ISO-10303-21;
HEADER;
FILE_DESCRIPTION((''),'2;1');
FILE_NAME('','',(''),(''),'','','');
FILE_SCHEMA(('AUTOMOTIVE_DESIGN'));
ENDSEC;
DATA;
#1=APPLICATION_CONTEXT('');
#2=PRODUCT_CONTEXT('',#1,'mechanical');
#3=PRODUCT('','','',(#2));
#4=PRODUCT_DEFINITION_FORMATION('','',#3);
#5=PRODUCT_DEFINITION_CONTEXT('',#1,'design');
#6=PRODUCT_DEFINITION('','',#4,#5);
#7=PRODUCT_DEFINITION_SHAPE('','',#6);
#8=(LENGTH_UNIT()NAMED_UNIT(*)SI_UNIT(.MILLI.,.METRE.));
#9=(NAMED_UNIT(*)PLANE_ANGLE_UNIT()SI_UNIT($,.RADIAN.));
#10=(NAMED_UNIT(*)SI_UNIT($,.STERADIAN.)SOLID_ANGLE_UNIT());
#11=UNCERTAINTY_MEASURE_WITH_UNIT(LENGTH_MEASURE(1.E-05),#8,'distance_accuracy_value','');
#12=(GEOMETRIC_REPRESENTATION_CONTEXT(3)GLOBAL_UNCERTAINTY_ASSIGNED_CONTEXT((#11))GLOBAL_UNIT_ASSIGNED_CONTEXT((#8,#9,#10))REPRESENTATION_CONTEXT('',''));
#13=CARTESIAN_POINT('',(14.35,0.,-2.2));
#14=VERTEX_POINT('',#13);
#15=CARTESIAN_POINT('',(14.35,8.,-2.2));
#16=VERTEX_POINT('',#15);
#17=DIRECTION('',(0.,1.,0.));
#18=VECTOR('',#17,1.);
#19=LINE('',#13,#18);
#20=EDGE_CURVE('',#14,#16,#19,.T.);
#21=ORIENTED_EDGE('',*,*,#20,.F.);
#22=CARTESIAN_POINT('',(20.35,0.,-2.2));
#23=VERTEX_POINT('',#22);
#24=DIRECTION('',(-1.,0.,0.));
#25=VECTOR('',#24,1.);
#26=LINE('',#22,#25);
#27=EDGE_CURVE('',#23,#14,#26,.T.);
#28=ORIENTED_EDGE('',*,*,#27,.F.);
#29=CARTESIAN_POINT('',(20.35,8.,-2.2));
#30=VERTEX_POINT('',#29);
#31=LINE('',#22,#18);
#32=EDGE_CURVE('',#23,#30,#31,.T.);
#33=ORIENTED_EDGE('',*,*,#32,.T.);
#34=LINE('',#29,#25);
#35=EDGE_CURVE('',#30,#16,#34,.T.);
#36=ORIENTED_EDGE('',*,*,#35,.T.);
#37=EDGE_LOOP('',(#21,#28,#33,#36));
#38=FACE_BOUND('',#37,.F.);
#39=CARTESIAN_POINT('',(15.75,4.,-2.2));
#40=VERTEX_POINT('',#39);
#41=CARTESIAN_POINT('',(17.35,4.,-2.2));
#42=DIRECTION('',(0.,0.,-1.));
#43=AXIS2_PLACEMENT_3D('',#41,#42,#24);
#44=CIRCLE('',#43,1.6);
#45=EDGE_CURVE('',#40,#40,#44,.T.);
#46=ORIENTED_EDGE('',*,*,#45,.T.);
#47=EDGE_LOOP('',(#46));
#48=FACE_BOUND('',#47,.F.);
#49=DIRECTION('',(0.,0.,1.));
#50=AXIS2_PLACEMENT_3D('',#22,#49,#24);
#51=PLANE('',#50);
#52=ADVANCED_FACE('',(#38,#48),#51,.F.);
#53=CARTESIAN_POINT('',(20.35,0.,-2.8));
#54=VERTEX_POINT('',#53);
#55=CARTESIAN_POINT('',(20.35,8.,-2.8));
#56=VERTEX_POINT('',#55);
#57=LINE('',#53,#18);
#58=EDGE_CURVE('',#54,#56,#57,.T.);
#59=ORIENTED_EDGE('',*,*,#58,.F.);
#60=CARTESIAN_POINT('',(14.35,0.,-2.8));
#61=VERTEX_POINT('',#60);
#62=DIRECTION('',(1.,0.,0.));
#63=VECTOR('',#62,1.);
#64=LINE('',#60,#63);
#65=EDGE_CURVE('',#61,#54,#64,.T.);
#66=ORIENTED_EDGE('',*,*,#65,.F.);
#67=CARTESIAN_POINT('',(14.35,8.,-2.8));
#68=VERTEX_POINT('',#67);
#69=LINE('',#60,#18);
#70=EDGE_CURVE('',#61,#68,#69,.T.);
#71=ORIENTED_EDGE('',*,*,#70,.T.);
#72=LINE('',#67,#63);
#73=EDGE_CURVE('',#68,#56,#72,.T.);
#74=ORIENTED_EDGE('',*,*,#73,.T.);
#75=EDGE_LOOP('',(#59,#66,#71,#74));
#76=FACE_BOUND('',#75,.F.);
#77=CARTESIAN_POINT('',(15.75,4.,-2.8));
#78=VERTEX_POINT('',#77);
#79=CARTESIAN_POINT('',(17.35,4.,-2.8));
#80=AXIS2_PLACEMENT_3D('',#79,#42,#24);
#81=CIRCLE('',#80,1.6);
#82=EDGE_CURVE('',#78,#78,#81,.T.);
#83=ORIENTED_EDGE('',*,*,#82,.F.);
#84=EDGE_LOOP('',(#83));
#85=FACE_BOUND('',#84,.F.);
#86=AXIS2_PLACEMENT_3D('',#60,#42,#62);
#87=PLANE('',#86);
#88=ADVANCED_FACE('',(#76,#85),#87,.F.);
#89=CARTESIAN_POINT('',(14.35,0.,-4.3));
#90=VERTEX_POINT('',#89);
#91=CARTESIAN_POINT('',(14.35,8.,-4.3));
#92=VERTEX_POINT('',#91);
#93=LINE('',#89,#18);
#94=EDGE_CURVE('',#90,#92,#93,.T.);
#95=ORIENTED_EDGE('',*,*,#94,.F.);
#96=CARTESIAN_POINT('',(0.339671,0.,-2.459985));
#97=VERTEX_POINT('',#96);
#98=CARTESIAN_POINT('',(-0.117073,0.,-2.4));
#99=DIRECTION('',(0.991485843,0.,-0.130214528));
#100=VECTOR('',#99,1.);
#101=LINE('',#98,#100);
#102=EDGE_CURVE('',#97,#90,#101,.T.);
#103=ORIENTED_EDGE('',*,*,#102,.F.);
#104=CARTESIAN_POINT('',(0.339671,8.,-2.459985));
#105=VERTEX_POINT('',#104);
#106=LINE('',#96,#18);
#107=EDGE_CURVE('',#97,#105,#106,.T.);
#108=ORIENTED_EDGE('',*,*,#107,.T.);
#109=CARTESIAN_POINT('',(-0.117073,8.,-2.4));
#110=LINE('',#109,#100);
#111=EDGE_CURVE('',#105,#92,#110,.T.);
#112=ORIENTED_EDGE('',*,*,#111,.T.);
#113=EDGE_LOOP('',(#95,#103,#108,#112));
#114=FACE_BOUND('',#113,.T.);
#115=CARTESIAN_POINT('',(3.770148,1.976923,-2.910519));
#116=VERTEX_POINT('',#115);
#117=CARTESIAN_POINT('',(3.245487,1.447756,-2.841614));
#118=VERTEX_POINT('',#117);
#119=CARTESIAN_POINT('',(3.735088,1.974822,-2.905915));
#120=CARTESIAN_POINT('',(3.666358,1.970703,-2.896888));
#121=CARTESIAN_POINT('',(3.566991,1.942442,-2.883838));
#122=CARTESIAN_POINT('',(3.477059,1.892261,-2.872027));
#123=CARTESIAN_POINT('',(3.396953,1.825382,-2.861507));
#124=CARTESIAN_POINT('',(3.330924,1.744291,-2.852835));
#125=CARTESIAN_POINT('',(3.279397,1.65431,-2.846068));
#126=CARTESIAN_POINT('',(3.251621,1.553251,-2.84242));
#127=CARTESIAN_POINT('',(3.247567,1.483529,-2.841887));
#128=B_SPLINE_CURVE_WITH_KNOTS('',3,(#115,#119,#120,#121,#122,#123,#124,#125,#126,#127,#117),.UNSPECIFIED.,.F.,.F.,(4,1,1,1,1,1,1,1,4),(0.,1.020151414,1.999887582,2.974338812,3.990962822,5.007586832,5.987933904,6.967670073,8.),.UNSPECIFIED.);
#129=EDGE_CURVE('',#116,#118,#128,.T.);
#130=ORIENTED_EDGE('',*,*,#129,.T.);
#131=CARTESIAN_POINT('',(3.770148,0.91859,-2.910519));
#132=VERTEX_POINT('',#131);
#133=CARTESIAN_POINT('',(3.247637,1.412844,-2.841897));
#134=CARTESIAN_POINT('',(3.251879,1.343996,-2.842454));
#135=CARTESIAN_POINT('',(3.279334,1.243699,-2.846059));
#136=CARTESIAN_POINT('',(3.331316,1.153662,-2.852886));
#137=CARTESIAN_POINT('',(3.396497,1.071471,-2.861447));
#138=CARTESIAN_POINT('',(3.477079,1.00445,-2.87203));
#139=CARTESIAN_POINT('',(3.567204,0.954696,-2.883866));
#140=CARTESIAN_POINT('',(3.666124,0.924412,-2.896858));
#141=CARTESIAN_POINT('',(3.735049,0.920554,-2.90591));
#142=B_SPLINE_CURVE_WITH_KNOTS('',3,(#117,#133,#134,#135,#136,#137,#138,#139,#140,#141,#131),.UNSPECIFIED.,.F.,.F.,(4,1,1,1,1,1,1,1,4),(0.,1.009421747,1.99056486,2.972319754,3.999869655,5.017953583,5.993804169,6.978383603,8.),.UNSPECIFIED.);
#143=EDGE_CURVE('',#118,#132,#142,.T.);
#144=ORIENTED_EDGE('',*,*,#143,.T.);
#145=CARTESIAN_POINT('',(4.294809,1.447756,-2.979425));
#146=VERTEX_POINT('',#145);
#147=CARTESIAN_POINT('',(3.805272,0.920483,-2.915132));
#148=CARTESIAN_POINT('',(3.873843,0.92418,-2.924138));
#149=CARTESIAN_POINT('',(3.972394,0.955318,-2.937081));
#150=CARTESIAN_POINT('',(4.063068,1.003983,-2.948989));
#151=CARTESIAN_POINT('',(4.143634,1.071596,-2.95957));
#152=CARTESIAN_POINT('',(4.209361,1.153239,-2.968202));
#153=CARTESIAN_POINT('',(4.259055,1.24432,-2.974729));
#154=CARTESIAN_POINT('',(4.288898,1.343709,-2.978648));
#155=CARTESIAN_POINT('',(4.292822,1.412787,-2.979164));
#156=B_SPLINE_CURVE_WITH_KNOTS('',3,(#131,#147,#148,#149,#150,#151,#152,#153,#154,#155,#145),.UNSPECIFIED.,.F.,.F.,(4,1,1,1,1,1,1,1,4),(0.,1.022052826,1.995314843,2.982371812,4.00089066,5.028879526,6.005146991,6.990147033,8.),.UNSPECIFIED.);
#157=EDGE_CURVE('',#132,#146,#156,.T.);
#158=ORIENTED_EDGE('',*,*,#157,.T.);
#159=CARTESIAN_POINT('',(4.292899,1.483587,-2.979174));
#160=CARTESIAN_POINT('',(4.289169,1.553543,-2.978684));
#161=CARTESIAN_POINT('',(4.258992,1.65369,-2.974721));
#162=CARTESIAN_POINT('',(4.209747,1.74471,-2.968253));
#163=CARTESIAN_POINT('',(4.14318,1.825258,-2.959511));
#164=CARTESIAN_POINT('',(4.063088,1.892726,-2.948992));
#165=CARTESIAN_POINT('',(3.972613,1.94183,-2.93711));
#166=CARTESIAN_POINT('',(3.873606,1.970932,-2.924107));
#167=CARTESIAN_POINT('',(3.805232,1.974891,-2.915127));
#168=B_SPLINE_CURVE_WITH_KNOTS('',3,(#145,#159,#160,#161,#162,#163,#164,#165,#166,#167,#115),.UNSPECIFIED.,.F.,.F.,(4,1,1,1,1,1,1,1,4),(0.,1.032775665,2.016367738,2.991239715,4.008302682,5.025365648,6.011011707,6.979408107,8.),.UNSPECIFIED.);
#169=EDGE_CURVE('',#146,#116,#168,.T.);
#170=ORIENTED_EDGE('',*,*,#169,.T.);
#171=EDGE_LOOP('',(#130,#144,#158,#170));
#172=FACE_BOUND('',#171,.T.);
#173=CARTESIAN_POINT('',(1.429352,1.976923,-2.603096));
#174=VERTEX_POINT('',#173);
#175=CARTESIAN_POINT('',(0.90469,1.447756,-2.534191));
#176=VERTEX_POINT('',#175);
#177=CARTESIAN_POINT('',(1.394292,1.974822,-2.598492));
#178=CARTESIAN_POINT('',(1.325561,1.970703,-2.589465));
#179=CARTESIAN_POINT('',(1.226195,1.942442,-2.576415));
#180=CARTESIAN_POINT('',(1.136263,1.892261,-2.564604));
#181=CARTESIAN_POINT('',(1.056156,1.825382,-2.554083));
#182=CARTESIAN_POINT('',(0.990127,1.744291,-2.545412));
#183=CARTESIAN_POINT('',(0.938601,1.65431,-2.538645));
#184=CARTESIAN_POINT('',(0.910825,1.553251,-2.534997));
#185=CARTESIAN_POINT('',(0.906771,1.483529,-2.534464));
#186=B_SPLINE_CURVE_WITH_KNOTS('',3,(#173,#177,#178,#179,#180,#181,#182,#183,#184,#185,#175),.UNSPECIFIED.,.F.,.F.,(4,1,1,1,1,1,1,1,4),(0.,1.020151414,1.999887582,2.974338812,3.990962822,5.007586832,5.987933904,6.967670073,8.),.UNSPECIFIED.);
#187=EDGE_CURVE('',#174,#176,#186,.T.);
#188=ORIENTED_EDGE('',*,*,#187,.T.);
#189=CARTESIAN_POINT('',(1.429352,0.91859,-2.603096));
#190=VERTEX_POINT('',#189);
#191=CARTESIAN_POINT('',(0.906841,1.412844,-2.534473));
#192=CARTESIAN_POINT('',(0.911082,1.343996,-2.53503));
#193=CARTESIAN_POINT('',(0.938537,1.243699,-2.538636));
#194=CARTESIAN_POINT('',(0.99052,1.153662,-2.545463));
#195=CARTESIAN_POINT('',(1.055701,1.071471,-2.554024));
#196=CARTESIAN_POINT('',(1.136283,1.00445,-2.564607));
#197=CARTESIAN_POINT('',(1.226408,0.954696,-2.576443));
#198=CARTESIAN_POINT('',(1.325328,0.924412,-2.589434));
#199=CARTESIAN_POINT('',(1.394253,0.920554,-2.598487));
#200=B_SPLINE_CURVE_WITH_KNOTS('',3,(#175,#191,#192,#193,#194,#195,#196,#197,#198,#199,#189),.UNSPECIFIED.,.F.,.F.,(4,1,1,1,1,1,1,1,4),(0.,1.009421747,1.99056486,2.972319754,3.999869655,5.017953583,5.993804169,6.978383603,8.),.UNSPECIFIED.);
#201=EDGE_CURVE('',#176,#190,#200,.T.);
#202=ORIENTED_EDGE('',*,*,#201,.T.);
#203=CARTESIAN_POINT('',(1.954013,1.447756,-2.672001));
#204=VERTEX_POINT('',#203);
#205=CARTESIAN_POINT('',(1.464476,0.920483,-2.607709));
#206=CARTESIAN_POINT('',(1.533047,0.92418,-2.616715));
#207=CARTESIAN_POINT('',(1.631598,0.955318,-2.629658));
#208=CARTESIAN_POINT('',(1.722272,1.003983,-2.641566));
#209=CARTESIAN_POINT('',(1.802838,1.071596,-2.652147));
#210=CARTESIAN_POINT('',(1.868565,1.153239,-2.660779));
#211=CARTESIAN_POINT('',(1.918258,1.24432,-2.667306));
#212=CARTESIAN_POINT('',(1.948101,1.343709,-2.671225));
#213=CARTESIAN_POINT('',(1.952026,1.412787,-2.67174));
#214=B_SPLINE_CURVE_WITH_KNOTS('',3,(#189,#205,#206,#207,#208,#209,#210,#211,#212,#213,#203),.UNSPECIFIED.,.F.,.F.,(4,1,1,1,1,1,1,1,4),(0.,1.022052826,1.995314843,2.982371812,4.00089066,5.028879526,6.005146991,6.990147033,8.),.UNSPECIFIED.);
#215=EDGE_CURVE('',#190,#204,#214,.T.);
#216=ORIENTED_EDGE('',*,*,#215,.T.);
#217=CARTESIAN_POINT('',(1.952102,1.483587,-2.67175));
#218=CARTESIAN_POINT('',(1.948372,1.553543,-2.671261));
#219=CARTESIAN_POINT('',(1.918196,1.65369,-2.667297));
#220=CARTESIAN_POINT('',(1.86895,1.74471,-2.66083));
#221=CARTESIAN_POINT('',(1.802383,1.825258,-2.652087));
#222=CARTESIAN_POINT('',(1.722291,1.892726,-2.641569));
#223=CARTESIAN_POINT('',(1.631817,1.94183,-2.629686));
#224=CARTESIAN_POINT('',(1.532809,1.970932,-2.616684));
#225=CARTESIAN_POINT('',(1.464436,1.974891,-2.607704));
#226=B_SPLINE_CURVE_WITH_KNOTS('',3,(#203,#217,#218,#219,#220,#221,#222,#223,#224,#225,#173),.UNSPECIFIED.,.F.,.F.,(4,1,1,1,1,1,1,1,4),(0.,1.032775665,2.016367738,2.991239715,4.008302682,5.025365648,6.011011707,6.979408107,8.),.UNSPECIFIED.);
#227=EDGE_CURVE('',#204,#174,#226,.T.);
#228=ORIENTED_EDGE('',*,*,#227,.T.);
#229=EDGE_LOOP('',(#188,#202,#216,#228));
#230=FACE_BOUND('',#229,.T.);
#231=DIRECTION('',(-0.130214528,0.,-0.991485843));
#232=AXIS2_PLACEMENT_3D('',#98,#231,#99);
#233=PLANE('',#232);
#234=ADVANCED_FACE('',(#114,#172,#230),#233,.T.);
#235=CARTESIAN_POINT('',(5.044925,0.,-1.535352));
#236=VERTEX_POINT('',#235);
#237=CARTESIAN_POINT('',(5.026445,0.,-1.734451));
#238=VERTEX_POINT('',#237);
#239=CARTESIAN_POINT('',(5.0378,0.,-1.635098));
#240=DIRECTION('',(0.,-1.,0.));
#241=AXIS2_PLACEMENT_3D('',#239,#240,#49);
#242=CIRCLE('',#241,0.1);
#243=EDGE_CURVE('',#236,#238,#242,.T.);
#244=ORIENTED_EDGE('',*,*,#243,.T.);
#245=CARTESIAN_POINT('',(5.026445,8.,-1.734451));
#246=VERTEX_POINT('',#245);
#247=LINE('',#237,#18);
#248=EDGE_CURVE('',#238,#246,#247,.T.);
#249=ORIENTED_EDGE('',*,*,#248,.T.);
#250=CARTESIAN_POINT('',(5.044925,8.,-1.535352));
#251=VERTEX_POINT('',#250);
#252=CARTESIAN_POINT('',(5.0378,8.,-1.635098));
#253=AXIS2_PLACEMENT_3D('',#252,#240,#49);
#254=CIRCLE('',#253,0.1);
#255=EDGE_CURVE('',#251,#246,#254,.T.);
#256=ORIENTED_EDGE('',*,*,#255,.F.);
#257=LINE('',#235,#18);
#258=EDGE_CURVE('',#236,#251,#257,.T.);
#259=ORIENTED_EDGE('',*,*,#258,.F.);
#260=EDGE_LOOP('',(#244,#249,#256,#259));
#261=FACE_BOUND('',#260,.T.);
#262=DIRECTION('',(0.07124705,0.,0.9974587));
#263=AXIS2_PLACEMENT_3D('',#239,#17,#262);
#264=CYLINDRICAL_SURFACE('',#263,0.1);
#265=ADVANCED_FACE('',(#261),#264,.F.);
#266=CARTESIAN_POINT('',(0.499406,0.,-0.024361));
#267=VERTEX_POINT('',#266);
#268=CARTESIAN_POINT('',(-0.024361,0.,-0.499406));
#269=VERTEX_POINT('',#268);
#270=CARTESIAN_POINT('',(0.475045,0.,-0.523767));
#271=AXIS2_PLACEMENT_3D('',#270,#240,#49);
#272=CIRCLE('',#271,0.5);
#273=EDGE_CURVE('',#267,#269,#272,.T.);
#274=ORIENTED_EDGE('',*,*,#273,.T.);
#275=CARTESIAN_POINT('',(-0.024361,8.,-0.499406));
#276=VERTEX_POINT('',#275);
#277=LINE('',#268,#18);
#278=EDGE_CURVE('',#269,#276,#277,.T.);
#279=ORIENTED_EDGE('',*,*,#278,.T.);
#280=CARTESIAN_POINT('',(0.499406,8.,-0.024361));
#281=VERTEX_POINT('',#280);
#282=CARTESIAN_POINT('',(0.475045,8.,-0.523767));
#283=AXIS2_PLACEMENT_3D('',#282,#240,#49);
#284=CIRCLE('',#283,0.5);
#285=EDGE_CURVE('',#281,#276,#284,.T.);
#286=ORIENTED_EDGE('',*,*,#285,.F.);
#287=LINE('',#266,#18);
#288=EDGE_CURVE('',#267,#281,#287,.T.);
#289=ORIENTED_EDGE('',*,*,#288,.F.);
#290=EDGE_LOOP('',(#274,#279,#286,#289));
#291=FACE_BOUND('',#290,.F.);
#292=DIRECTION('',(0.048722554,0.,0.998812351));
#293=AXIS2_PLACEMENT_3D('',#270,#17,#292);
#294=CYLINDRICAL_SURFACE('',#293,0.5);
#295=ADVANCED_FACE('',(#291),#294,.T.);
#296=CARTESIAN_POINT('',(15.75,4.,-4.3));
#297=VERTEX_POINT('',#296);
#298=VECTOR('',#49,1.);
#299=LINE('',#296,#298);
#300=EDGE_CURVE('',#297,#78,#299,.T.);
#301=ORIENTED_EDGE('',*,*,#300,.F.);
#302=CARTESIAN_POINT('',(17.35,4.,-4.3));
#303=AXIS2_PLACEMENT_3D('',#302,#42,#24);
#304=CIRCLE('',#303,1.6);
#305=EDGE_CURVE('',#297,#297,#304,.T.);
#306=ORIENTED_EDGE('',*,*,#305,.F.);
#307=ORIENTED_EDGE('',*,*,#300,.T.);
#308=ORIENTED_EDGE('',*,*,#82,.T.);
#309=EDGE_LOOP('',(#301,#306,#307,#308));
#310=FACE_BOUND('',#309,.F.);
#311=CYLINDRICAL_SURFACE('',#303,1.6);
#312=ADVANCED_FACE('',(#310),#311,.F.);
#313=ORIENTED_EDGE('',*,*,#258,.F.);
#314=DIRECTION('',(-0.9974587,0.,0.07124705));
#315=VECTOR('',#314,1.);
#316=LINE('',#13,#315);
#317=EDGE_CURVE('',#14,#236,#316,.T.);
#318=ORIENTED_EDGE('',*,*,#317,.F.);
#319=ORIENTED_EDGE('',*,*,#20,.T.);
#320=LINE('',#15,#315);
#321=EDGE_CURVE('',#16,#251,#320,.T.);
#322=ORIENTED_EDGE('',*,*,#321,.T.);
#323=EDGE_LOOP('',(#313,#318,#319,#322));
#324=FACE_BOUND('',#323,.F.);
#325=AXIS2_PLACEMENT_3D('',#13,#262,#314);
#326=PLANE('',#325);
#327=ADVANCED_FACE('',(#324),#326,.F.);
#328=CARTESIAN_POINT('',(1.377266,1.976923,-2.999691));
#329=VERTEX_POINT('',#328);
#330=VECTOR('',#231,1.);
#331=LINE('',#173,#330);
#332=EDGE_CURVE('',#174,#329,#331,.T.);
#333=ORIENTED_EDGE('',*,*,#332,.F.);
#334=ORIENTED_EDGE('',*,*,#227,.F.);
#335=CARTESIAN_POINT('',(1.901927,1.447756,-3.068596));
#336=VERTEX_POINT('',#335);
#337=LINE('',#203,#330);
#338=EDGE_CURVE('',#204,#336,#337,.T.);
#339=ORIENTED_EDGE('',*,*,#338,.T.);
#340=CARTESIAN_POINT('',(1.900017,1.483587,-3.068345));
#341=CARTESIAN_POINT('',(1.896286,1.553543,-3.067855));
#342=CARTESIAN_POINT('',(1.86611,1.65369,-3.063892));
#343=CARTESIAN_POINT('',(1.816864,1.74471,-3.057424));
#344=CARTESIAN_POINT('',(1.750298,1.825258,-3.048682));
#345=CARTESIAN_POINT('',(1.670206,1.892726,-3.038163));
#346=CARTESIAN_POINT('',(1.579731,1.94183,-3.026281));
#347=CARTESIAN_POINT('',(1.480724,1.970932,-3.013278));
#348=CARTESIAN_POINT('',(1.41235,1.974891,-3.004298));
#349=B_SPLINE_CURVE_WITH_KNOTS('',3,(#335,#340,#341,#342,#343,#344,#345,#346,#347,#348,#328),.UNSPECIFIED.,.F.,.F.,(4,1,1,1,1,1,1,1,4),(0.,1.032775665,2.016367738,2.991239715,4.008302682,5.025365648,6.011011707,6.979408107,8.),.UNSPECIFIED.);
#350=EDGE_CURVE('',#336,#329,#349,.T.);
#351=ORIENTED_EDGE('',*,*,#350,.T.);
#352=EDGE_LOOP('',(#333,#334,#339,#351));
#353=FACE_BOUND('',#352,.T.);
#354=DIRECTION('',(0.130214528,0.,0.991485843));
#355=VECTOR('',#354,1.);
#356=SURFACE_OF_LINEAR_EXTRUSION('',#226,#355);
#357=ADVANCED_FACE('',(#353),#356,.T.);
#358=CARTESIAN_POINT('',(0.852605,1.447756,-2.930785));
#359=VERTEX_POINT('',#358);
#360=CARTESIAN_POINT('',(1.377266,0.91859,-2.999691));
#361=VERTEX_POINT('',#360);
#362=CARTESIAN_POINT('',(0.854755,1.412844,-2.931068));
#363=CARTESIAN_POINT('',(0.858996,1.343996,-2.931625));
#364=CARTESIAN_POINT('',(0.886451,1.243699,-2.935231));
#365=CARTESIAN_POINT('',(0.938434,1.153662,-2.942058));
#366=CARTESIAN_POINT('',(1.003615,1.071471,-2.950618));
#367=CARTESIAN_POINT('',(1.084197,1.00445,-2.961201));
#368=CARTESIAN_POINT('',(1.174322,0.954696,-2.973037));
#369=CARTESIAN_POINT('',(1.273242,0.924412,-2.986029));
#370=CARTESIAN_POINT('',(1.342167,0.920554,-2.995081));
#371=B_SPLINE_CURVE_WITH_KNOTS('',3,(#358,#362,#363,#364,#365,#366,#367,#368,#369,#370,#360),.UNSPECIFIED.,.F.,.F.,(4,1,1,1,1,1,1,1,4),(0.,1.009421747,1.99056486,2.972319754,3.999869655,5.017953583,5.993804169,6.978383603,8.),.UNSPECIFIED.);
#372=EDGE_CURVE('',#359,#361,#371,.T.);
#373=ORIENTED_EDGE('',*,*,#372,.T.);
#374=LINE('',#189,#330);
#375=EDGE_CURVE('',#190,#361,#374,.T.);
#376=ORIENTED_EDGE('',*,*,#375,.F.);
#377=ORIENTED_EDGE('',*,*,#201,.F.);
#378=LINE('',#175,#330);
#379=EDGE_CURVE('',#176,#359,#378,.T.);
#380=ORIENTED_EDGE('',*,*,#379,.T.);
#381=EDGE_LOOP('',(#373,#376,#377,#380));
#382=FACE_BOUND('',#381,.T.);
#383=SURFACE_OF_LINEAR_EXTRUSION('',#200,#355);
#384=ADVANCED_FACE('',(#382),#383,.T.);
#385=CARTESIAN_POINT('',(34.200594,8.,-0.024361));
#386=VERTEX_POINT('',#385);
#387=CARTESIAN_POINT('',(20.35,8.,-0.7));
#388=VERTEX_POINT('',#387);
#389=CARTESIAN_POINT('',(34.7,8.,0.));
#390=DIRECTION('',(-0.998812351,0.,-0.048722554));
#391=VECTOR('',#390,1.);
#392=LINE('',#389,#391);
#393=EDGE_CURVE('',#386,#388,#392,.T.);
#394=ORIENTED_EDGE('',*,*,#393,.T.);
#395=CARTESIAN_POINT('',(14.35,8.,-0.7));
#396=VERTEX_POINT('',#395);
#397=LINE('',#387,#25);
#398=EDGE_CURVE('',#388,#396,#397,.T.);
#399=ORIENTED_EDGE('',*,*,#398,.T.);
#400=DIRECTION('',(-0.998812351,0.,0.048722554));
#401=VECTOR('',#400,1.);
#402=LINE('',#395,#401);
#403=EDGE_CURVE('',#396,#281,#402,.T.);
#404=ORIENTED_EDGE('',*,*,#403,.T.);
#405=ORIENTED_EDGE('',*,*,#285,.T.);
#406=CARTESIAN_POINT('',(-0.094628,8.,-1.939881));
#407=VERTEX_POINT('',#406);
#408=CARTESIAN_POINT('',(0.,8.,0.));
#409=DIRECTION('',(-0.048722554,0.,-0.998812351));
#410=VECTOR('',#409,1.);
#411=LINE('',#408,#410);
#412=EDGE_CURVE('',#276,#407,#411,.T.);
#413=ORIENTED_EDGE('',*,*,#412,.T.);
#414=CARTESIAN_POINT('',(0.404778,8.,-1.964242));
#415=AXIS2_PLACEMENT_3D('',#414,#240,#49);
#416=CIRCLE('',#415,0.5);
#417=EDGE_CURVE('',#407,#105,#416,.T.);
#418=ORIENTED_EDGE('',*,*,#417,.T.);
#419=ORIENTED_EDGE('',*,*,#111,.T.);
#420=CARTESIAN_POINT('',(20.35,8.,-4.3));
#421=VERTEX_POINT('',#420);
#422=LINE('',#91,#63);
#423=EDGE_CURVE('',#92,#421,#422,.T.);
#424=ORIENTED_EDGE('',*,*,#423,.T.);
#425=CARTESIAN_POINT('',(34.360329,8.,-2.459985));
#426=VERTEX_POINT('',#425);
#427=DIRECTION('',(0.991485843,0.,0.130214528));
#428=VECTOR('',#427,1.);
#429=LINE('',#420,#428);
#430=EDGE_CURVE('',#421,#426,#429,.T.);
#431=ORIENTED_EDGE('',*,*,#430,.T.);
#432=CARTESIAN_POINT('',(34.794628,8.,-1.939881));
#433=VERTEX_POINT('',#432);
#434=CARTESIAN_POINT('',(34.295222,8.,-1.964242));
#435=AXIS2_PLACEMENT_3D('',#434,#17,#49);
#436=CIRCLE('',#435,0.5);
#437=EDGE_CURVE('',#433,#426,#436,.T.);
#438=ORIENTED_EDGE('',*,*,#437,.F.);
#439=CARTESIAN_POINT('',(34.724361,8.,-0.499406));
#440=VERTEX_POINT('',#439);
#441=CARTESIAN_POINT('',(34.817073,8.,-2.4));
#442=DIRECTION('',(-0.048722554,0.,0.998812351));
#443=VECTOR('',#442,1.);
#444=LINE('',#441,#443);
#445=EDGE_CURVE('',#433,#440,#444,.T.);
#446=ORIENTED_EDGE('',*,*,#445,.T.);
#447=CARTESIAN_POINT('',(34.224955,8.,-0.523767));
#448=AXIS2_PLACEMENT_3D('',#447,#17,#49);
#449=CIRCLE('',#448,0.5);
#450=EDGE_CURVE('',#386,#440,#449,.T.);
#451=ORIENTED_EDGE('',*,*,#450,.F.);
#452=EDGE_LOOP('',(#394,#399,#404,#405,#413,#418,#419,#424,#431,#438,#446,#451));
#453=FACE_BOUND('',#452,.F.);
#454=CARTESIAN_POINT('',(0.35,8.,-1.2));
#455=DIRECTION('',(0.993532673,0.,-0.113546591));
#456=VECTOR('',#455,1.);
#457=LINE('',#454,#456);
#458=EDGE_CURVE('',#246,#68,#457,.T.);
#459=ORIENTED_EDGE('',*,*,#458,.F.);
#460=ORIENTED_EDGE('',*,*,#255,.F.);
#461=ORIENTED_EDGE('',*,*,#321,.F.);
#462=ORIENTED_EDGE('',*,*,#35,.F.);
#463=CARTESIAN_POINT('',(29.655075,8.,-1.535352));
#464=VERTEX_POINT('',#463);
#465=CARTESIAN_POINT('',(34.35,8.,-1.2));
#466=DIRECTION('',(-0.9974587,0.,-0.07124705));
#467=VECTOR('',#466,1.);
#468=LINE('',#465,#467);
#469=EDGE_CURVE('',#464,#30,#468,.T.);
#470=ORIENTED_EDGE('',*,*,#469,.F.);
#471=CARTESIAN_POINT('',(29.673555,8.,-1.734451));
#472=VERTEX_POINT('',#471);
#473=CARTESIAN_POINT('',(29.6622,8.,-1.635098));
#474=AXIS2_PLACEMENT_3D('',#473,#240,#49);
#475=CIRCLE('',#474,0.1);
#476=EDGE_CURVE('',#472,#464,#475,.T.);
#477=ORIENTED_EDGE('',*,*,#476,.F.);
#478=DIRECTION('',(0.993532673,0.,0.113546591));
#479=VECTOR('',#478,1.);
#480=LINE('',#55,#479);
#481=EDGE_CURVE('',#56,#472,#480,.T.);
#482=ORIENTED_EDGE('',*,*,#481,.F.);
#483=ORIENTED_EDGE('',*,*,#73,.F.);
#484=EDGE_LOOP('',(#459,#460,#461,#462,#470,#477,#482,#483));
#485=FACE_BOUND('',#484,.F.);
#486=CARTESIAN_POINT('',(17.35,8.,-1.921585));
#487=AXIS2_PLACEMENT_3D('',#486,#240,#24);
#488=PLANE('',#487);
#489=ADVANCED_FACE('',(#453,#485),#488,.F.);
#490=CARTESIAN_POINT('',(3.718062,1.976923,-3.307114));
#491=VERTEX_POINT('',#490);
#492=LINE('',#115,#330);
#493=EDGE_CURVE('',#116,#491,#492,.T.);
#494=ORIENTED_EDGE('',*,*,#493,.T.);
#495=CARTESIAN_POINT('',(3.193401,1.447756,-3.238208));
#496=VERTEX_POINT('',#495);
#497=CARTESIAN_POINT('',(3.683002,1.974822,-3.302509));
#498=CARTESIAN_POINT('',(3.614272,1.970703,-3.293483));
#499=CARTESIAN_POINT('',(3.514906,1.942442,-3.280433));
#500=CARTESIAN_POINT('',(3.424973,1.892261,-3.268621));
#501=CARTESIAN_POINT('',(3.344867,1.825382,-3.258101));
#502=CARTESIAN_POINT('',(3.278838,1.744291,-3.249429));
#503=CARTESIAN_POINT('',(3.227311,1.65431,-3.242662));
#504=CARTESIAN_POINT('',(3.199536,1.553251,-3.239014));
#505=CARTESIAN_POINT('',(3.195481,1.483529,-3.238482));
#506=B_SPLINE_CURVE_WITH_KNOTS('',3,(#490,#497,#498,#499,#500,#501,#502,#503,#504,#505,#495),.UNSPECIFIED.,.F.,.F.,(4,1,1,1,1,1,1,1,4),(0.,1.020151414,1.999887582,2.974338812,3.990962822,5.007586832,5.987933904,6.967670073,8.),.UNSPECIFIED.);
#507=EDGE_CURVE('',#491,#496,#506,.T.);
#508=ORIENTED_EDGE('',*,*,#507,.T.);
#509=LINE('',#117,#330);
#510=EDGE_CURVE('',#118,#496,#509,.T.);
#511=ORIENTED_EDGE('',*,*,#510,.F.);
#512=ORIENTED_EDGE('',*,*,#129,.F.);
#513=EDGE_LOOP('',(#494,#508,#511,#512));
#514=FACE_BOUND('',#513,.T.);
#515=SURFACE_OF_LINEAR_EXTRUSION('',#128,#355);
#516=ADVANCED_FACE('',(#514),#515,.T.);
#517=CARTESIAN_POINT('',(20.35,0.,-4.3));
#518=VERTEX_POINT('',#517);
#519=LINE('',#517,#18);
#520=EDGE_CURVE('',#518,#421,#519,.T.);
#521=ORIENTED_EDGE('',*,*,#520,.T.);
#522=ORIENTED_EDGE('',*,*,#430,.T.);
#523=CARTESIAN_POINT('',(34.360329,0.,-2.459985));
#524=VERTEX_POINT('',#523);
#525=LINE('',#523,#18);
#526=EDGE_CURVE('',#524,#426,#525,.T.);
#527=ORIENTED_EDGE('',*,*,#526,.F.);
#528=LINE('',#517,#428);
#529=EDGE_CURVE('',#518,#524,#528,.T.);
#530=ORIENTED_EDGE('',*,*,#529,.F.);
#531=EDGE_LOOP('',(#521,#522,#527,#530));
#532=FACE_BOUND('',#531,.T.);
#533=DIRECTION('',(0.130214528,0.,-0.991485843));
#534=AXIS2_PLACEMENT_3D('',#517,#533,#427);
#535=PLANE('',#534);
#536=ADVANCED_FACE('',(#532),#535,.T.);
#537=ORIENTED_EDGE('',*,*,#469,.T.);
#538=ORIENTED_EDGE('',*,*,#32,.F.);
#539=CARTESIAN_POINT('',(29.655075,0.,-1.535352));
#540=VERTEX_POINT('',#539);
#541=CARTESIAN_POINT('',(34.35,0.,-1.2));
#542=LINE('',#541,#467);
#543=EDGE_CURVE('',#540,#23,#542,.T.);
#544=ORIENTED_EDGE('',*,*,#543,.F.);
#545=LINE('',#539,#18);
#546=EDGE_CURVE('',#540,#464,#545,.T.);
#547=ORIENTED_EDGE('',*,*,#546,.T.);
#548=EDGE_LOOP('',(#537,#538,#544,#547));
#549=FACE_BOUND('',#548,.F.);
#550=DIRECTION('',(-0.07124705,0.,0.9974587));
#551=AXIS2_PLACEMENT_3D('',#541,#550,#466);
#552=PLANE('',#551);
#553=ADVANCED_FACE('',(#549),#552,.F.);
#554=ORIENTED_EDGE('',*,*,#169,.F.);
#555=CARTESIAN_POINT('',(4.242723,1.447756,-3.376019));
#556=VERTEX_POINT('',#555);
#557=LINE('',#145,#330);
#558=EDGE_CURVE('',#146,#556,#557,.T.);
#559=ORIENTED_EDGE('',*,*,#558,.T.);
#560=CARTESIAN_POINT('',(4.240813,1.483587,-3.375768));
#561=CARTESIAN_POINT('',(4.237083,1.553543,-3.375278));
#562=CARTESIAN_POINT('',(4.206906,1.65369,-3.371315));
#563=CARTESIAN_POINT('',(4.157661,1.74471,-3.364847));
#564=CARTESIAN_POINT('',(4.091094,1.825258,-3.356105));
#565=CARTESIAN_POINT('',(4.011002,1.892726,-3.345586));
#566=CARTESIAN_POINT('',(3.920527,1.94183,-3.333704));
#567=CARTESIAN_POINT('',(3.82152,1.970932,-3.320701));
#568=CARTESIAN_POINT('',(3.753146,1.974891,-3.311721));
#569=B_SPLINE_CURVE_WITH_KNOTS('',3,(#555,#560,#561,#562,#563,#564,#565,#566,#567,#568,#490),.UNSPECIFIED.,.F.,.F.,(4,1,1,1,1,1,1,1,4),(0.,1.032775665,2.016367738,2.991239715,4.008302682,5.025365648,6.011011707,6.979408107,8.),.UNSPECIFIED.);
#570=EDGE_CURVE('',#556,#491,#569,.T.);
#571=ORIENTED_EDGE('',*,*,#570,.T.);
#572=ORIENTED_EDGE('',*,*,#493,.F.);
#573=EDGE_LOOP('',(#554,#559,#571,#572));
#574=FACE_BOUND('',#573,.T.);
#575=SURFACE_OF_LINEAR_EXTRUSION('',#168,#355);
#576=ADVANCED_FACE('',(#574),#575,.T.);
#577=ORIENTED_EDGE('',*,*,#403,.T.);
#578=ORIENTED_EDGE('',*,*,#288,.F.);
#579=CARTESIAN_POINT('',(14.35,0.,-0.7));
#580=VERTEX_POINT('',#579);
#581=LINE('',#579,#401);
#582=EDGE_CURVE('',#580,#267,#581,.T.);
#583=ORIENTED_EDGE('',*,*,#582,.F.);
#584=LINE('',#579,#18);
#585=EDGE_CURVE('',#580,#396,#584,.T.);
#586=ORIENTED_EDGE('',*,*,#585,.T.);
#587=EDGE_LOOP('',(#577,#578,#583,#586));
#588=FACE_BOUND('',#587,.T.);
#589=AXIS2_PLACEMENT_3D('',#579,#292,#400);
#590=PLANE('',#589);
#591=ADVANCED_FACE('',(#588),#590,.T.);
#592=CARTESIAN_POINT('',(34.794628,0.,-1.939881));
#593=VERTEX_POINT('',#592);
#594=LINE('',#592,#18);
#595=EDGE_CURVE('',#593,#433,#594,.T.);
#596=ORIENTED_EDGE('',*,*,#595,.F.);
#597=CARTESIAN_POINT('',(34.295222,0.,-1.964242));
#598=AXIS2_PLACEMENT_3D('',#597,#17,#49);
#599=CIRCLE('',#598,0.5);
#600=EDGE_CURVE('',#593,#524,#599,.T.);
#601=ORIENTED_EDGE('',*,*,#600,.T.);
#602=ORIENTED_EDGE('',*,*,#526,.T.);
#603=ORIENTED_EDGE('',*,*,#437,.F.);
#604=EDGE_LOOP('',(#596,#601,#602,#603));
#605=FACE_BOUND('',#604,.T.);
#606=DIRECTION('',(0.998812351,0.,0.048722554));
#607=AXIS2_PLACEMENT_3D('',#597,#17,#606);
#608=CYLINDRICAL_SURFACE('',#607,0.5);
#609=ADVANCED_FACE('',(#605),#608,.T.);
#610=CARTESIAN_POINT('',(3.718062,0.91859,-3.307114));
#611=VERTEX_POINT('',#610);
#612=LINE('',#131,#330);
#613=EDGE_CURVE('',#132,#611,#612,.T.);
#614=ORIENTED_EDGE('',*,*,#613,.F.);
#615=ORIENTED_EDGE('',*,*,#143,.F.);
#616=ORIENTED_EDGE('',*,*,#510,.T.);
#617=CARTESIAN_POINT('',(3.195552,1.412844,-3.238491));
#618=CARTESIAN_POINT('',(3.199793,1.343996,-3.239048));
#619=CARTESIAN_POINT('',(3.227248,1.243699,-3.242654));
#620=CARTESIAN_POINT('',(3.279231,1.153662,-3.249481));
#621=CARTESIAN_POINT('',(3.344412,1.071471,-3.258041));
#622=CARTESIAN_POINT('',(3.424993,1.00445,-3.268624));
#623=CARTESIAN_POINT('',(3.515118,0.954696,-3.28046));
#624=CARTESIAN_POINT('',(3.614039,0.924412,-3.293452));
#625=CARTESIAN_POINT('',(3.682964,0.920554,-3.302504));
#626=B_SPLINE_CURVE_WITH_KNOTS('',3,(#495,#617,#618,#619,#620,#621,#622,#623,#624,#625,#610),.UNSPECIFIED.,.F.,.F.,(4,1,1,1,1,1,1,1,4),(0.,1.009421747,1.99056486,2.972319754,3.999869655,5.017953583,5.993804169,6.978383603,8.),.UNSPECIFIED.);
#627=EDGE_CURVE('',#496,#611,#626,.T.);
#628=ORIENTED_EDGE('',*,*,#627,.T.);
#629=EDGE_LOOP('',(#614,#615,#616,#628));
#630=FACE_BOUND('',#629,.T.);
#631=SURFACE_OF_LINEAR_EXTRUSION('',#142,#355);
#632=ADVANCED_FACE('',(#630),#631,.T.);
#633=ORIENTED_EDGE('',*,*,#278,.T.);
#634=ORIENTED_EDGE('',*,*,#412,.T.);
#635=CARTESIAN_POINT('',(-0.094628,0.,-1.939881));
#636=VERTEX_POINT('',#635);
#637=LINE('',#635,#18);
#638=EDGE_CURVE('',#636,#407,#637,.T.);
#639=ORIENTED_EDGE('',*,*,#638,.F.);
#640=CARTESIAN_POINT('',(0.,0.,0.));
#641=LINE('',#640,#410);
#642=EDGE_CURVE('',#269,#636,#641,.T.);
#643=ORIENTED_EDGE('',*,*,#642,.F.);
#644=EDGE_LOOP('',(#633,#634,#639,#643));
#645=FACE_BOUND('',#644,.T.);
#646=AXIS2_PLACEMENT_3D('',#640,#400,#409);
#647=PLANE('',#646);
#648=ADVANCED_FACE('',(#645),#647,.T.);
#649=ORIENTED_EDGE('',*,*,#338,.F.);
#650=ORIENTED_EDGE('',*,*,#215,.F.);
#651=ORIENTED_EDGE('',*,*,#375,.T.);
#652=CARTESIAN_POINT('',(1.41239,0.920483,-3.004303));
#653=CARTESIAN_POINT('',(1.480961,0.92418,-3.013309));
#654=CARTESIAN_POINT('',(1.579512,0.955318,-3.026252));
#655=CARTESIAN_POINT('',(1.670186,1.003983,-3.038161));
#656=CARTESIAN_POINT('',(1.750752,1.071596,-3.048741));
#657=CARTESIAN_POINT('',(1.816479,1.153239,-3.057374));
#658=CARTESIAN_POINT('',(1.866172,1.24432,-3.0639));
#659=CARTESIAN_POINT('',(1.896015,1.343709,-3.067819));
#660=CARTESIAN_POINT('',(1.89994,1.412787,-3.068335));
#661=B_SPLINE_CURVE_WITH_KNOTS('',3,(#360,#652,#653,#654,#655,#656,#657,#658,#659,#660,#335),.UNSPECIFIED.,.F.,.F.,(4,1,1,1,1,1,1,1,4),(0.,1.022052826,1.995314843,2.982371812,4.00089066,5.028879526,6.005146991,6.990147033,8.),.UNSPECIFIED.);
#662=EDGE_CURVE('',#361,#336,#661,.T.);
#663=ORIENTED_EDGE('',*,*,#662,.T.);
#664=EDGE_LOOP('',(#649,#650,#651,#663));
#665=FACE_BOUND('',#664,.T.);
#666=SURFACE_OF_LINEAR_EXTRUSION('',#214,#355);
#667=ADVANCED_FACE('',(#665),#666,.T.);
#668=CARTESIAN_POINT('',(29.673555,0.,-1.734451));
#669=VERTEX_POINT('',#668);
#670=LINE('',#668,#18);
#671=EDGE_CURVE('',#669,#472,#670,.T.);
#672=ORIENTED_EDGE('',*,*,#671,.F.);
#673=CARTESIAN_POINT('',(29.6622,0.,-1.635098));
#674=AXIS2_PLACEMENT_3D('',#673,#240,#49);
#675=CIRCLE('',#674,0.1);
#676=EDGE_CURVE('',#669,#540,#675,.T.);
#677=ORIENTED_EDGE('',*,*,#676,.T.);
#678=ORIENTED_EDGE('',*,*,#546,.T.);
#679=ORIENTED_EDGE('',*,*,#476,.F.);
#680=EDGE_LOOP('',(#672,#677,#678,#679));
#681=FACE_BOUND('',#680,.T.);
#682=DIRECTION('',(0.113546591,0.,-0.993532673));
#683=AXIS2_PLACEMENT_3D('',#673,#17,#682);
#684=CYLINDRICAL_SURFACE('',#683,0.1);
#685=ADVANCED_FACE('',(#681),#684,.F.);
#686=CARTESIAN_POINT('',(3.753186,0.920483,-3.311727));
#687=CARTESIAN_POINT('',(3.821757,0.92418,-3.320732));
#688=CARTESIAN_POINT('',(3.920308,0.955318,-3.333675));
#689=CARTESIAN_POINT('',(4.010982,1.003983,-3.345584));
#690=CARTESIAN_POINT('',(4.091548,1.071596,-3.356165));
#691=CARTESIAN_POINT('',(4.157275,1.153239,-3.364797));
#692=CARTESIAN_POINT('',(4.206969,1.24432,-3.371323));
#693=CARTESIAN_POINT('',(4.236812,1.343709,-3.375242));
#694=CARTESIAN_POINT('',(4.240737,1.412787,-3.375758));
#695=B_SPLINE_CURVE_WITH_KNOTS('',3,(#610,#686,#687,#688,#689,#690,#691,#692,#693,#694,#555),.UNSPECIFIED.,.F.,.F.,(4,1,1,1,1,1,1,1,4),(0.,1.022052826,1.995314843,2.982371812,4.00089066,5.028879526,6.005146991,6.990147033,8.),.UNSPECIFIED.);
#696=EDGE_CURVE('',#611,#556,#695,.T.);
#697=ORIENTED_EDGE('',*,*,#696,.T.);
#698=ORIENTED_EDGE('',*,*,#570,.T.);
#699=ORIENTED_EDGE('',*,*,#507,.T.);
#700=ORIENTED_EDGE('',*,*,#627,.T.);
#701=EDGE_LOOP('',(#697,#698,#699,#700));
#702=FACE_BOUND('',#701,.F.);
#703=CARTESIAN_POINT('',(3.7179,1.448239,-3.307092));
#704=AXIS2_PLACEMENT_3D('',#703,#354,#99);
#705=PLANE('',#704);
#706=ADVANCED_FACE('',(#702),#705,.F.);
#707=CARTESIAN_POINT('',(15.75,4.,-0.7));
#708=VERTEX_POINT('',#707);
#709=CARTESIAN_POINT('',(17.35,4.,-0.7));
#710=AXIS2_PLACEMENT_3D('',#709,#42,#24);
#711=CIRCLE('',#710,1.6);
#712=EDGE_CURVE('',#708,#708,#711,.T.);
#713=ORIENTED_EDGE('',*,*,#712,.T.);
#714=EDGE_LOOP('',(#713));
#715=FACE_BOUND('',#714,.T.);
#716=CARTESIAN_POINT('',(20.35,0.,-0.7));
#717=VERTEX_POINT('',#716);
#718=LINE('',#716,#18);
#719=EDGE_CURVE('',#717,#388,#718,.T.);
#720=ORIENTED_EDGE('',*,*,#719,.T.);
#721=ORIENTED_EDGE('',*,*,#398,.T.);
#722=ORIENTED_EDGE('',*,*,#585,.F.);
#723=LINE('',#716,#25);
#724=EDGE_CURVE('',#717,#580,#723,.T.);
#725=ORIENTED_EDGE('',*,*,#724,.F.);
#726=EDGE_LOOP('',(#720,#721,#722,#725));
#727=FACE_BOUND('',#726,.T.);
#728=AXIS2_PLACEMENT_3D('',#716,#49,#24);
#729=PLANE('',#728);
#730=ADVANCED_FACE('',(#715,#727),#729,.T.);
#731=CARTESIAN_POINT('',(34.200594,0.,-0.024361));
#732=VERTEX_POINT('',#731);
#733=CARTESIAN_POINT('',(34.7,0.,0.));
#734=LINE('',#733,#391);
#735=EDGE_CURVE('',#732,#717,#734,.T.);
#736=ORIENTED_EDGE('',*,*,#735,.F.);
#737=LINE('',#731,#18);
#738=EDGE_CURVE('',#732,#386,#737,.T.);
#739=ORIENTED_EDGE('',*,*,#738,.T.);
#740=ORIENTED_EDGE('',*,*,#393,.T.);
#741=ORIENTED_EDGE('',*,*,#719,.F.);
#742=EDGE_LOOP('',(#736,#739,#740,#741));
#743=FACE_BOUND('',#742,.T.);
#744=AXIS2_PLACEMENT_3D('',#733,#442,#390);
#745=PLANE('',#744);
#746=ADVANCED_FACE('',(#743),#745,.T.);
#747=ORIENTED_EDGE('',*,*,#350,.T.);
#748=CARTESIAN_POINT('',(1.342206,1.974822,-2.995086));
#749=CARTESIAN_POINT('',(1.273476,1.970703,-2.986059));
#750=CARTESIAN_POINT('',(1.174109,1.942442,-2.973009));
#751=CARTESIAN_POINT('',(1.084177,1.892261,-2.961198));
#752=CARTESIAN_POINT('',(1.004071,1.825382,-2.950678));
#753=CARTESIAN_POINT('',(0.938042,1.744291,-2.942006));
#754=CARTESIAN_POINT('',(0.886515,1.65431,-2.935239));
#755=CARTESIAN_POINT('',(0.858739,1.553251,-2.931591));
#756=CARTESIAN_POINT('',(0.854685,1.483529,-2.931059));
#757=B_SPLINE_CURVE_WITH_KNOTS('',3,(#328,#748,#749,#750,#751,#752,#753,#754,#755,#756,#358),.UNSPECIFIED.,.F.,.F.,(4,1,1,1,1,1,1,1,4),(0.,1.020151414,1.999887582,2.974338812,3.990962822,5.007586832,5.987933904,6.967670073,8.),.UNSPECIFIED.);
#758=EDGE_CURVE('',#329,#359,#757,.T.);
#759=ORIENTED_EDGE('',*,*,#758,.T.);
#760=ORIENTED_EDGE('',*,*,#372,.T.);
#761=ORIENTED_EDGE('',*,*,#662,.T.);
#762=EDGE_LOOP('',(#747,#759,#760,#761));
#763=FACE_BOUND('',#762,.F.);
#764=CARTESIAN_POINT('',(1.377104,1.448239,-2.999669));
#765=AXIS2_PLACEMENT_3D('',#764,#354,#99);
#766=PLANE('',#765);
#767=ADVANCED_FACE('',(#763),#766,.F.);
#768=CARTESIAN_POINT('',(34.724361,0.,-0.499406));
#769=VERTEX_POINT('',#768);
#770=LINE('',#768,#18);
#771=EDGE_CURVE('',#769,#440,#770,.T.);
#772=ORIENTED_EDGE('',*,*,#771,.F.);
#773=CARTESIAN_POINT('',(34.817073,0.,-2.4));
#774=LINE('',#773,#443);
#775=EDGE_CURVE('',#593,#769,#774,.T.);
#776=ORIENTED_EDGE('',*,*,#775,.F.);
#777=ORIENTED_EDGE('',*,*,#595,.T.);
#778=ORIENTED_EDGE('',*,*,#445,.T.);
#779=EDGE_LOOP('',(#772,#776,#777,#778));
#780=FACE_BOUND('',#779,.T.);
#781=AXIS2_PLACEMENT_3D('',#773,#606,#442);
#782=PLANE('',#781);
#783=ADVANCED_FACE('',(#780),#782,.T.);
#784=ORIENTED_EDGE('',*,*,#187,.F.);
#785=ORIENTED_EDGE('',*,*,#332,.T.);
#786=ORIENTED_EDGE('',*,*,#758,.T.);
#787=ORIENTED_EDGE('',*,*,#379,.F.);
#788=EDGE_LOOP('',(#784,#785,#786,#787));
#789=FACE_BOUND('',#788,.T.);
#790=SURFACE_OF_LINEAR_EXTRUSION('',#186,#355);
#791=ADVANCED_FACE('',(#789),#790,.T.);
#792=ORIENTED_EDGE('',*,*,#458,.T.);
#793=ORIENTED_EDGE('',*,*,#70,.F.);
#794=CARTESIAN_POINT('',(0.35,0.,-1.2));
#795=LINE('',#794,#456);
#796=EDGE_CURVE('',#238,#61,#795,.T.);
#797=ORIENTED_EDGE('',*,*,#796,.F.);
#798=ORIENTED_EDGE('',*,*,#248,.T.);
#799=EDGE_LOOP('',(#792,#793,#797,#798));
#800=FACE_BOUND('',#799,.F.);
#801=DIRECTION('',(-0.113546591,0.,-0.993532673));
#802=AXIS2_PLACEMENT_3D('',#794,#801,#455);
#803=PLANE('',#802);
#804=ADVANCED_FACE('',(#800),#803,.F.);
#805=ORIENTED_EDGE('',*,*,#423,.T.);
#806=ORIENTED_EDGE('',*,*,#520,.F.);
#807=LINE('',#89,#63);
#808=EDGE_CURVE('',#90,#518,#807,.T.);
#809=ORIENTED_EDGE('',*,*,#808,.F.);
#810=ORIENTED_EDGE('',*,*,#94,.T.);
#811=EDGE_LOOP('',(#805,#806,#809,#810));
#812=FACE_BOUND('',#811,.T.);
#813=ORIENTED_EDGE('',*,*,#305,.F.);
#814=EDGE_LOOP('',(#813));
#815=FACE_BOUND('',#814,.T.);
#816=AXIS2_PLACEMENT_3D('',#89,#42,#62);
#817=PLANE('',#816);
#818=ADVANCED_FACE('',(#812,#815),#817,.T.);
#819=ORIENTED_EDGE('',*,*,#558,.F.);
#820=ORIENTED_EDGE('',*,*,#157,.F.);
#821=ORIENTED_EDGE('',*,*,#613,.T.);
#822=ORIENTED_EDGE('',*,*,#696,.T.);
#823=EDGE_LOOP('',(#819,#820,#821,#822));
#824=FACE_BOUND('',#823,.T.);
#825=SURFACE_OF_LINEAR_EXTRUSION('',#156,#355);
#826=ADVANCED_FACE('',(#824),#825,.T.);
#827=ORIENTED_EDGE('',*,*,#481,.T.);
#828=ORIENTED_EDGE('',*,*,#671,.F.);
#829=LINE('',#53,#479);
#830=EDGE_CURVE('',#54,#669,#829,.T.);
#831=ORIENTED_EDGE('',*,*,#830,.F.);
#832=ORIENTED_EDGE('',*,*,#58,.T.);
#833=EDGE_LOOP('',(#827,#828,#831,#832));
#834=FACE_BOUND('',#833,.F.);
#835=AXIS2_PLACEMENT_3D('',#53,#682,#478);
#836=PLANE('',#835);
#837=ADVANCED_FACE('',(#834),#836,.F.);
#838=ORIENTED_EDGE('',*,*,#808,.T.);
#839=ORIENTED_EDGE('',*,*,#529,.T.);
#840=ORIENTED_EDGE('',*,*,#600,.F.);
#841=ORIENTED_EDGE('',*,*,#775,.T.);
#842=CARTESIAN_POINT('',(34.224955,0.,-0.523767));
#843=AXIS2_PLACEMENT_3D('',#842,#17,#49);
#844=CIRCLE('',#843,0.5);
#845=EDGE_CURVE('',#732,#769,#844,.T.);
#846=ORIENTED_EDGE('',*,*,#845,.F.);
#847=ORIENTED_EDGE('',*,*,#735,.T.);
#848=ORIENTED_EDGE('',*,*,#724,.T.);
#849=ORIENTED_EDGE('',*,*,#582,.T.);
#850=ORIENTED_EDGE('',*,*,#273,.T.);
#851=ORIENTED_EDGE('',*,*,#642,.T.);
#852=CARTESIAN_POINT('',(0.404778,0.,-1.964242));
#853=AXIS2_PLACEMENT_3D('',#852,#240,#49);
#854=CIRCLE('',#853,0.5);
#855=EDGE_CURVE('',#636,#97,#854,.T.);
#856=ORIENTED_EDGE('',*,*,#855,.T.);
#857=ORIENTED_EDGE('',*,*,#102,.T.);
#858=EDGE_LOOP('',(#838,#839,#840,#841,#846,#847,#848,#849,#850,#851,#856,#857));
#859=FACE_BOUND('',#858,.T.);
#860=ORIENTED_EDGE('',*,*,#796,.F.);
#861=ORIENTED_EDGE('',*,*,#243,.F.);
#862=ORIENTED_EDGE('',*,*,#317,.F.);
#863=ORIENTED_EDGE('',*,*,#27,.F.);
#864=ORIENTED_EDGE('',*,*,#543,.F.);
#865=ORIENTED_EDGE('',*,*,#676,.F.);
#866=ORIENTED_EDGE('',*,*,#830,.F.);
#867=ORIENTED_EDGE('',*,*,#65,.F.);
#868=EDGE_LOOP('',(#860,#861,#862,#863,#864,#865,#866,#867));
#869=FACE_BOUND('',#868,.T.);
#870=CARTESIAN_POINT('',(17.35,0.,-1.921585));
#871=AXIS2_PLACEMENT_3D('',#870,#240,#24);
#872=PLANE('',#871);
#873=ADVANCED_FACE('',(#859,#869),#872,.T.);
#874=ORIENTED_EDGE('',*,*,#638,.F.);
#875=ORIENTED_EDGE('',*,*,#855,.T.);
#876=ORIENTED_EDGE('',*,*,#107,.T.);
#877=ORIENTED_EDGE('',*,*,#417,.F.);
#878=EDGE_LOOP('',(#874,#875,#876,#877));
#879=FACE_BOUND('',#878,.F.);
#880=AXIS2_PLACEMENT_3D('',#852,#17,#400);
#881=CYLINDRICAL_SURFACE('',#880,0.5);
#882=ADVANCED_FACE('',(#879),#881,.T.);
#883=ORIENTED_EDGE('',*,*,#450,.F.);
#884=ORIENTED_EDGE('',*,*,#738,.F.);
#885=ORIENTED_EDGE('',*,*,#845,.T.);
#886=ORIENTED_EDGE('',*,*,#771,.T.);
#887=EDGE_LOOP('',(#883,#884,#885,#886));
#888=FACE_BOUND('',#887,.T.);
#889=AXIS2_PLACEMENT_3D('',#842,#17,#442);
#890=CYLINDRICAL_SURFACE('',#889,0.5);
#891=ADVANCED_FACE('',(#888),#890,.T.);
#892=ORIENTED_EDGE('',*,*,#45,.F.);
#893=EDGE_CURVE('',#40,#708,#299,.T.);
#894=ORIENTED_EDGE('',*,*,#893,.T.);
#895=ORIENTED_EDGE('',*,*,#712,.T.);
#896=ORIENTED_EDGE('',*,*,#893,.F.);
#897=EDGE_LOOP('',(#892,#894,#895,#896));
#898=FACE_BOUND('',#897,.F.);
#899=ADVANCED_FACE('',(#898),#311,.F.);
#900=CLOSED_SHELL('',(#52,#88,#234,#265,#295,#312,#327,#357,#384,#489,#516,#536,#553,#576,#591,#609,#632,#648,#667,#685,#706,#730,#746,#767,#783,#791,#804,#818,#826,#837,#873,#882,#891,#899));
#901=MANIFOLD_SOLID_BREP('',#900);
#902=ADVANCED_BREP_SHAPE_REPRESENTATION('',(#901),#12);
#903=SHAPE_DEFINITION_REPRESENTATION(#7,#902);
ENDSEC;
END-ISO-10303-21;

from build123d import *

# Parameters (mm, degrees)
BOSS_EXTRUDE1_DEPTH       = 8
FILLET1_R                 = 0.1
FILLET2_R                 = 0.5
SKETCH2_R                 = 1.6
CUT_EXTRUDE1_DEPTH        = 36.95822091
REVISION_INDICATION_DEPTH = 0.4


with BuildPart() as part:
    # Sketch1 → Boss-Extrude1 (new body)
    with BuildSketch(Plane(origin=(0, 0, 0), x_dir=(1, 0, 0), z_dir=(0, 1, 0))):
        Polygon((20.35, 0.7), (14.35, 0.7), (0, 0), (-0.117073171, 2.4), (14.35, 4.3), (20.35, 4.3), (34.817073171, 2.4), (34.7, 0), align=None)
        Polygon((20.35, 2.2), (14.35, 2.2), (0.35, 1.2), (14.35, 2.8), (20.35, 2.8), (34.35, 1.2), align=None, mode=Mode.SUBTRACT)
    extrude(amount=BOSS_EXTRUDE1_DEPTH)

    # Fillet1
    fillet1_edges = [part.edges().sort_by_distance(p)[0] for p in [
        (0.35, 4, -1.2),
        (34.35, 4, -1.2),
    ]]
    fillet(fillet1_edges, radius=FILLET1_R)

    # Fillet2
    fillet2_edges = [part.edges().sort_by_distance(p)[0] for p in [
        (-0.117073171, 4, -2.4),
        (34.817073171, 4, -2.4),
        (34.7, 4, 0),
        (0, 4, 0),
    ]]
    fillet(fillet2_edges, radius=FILLET2_R)

    # Sketch2 → Cut-Extrude1 (cut, through all)
    with BuildSketch(Plane(origin=(0, 0, -4.3), x_dir=(-1, 0, 0), z_dir=(0, 0, -1))):
        with Locations((-17.35, 4)):
            Circle(SKETCH2_R)
    extrude(amount=-CUT_EXTRUDE1_DEPTH, mode=Mode.SUBTRACT)

    # Sketch5 → revision indication (add)
    with BuildSketch(Plane(origin=(-0.311839138, 0, -2.374420857), x_dir=(-0.9914858429395939, 0, 0.13021452780071538), z_dir=(-0.13021452780071538, 0, -0.9914858429395939))):
        with BuildLine():
            add(Edge.make_bspline(
                [(-1.75614285, 1.976923077), (-1.720782037, 1.974821832), (-1.651461296, 1.970702586), (-1.551241734, 1.942442049), (-1.460537137, 1.892261337), (-1.379742922, 1.825381725), (-1.313146886, 1.744291021), (-1.261177847, 1.654309873), (-1.233163488, 1.553251269), (-1.229074248, 1.483528859), (-1.226976184, 1.44775641)],
                knots=[0, 0, 0, 0, 1.020151414, 1.999887582, 2.974338812, 3.990962822, 5.007586832, 5.987933904, 6.967670073, 8, 8, 8, 8], degree=3))
            add(Edge.make_bspline(
                [(-1.226976184, 1.44775641), (-1.229145345, 1.412843512), (-1.233422899, 1.343995789), (-1.261113631, 1.243699421), (-1.313542951, 1.153662038), (-1.379283581, 1.071471016), (-1.46055711, 1.004449722), (-1.551456175, 0.954695939), (-1.651226029, 0.924411918), (-1.720742787, 0.920554208), (-1.75614285, 0.918589744)],
                knots=[0, 0, 0, 0, 1.009421747, 1.99056486, 2.972319754, 3.999869655, 5.017953583, 5.993804169, 6.978383603, 8, 8, 8, 8], degree=3))
            add(Edge.make_bspline(
                [(-1.75614285, 0.918589744), (-1.791568422, 0.920483127), (-1.860728417, 0.924179507), (-1.960125864, 0.955317742), (-2.051578507, 1.003983162), (-2.132836213, 1.071595984), (-2.19912744, 1.153239101), (-2.249247777, 1.244319503), (-2.279347047, 1.343708683), (-2.283305588, 1.412786963), (-2.285309517, 1.44775641)],
                knots=[0, 0, 0, 0, 1.022052826, 1.995314843, 2.982371812, 4.00089066, 5.028879526, 6.005146991, 6.990147033, 8, 8, 8, 8], degree=3))
            add(Edge.make_bspline(
                [(-2.285309517, 1.44775641), (-2.283382565, 1.483587428), (-2.279620429, 1.553543092), (-2.249184588, 1.653690044), (-2.199516318, 1.744709926), (-2.132377959, 1.825258007), (-2.051598165, 1.892726399), (-1.960346478, 1.941829667), (-1.860489026, 1.970931558), (-1.791528138, 1.974891267), (-1.75614285, 1.976923077)],
                knots=[0, 0, 0, 0, 1.032775665, 2.016367738, 2.991239715, 4.008302682, 5.025365648, 6.011011707, 6.979408107, 8, 8, 8, 8], degree=3))
        make_face()
        with BuildLine():
            add(Edge.make_bspline(
                [(-4.117040286, 1.976923077), (-4.081679473, 1.974821832), (-4.012358732, 1.970702586), (-3.91213917, 1.942442049), (-3.821434573, 1.892261337), (-3.740640358, 1.825381725), (-3.674044322, 1.744291021), (-3.622075283, 1.654309873), (-3.594060924, 1.553251269), (-3.589971684, 1.483528859), (-3.587873619, 1.44775641)],
                knots=[0, 0, 0, 0, 1.020151414, 1.999887582, 2.974338812, 3.990962822, 5.007586832, 5.987933904, 6.967670073, 8, 8, 8, 8], degree=3))
            add(Edge.make_bspline(
                [(-3.587873619, 1.44775641), (-3.590042781, 1.412843512), (-3.594320335, 1.343995789), (-3.622011067, 1.243699421), (-3.674440387, 1.153662038), (-3.740181017, 1.071471016), (-3.821454546, 1.004449722), (-3.91235361, 0.954695939), (-4.012123464, 0.924411918), (-4.081640223, 0.920554208), (-4.117040286, 0.918589744)],
                knots=[0, 0, 0, 0, 1.009421747, 1.99056486, 2.972319754, 3.999869655, 5.017953583, 5.993804169, 6.978383603, 8, 8, 8, 8], degree=3))
            add(Edge.make_bspline(
                [(-4.117040286, 0.918589744), (-4.152465858, 0.920483127), (-4.221625853, 0.924179507), (-4.3210233, 0.955317742), (-4.412475943, 1.003983162), (-4.493733649, 1.071595984), (-4.560024876, 1.153239101), (-4.610145213, 1.244319503), (-4.640244483, 1.343708683), (-4.644203024, 1.412786963), (-4.646206953, 1.44775641)],
                knots=[0, 0, 0, 0, 1.022052826, 1.995314843, 2.982371812, 4.00089066, 5.028879526, 6.005146991, 6.990147033, 8, 8, 8, 8], degree=3))
            add(Edge.make_bspline(
                [(-4.646206953, 1.44775641), (-4.644280001, 1.483587428), (-4.640517865, 1.553543092), (-4.610082024, 1.653690044), (-4.560413754, 1.744709926), (-4.493275395, 1.825258007), (-4.412495601, 1.892726399), (-4.321243914, 1.941829667), (-4.221386462, 1.970931558), (-4.152425574, 1.974891267), (-4.117040286, 1.976923077)],
                knots=[0, 0, 0, 0, 1.032775665, 2.016367738, 2.991239715, 4.008302682, 5.025365648, 6.011011707, 6.979408107, 8, 8, 8, 8], degree=3))
        make_face()
    extrude(amount=REVISION_INDICATION_DEPTH)


solid = part.part
